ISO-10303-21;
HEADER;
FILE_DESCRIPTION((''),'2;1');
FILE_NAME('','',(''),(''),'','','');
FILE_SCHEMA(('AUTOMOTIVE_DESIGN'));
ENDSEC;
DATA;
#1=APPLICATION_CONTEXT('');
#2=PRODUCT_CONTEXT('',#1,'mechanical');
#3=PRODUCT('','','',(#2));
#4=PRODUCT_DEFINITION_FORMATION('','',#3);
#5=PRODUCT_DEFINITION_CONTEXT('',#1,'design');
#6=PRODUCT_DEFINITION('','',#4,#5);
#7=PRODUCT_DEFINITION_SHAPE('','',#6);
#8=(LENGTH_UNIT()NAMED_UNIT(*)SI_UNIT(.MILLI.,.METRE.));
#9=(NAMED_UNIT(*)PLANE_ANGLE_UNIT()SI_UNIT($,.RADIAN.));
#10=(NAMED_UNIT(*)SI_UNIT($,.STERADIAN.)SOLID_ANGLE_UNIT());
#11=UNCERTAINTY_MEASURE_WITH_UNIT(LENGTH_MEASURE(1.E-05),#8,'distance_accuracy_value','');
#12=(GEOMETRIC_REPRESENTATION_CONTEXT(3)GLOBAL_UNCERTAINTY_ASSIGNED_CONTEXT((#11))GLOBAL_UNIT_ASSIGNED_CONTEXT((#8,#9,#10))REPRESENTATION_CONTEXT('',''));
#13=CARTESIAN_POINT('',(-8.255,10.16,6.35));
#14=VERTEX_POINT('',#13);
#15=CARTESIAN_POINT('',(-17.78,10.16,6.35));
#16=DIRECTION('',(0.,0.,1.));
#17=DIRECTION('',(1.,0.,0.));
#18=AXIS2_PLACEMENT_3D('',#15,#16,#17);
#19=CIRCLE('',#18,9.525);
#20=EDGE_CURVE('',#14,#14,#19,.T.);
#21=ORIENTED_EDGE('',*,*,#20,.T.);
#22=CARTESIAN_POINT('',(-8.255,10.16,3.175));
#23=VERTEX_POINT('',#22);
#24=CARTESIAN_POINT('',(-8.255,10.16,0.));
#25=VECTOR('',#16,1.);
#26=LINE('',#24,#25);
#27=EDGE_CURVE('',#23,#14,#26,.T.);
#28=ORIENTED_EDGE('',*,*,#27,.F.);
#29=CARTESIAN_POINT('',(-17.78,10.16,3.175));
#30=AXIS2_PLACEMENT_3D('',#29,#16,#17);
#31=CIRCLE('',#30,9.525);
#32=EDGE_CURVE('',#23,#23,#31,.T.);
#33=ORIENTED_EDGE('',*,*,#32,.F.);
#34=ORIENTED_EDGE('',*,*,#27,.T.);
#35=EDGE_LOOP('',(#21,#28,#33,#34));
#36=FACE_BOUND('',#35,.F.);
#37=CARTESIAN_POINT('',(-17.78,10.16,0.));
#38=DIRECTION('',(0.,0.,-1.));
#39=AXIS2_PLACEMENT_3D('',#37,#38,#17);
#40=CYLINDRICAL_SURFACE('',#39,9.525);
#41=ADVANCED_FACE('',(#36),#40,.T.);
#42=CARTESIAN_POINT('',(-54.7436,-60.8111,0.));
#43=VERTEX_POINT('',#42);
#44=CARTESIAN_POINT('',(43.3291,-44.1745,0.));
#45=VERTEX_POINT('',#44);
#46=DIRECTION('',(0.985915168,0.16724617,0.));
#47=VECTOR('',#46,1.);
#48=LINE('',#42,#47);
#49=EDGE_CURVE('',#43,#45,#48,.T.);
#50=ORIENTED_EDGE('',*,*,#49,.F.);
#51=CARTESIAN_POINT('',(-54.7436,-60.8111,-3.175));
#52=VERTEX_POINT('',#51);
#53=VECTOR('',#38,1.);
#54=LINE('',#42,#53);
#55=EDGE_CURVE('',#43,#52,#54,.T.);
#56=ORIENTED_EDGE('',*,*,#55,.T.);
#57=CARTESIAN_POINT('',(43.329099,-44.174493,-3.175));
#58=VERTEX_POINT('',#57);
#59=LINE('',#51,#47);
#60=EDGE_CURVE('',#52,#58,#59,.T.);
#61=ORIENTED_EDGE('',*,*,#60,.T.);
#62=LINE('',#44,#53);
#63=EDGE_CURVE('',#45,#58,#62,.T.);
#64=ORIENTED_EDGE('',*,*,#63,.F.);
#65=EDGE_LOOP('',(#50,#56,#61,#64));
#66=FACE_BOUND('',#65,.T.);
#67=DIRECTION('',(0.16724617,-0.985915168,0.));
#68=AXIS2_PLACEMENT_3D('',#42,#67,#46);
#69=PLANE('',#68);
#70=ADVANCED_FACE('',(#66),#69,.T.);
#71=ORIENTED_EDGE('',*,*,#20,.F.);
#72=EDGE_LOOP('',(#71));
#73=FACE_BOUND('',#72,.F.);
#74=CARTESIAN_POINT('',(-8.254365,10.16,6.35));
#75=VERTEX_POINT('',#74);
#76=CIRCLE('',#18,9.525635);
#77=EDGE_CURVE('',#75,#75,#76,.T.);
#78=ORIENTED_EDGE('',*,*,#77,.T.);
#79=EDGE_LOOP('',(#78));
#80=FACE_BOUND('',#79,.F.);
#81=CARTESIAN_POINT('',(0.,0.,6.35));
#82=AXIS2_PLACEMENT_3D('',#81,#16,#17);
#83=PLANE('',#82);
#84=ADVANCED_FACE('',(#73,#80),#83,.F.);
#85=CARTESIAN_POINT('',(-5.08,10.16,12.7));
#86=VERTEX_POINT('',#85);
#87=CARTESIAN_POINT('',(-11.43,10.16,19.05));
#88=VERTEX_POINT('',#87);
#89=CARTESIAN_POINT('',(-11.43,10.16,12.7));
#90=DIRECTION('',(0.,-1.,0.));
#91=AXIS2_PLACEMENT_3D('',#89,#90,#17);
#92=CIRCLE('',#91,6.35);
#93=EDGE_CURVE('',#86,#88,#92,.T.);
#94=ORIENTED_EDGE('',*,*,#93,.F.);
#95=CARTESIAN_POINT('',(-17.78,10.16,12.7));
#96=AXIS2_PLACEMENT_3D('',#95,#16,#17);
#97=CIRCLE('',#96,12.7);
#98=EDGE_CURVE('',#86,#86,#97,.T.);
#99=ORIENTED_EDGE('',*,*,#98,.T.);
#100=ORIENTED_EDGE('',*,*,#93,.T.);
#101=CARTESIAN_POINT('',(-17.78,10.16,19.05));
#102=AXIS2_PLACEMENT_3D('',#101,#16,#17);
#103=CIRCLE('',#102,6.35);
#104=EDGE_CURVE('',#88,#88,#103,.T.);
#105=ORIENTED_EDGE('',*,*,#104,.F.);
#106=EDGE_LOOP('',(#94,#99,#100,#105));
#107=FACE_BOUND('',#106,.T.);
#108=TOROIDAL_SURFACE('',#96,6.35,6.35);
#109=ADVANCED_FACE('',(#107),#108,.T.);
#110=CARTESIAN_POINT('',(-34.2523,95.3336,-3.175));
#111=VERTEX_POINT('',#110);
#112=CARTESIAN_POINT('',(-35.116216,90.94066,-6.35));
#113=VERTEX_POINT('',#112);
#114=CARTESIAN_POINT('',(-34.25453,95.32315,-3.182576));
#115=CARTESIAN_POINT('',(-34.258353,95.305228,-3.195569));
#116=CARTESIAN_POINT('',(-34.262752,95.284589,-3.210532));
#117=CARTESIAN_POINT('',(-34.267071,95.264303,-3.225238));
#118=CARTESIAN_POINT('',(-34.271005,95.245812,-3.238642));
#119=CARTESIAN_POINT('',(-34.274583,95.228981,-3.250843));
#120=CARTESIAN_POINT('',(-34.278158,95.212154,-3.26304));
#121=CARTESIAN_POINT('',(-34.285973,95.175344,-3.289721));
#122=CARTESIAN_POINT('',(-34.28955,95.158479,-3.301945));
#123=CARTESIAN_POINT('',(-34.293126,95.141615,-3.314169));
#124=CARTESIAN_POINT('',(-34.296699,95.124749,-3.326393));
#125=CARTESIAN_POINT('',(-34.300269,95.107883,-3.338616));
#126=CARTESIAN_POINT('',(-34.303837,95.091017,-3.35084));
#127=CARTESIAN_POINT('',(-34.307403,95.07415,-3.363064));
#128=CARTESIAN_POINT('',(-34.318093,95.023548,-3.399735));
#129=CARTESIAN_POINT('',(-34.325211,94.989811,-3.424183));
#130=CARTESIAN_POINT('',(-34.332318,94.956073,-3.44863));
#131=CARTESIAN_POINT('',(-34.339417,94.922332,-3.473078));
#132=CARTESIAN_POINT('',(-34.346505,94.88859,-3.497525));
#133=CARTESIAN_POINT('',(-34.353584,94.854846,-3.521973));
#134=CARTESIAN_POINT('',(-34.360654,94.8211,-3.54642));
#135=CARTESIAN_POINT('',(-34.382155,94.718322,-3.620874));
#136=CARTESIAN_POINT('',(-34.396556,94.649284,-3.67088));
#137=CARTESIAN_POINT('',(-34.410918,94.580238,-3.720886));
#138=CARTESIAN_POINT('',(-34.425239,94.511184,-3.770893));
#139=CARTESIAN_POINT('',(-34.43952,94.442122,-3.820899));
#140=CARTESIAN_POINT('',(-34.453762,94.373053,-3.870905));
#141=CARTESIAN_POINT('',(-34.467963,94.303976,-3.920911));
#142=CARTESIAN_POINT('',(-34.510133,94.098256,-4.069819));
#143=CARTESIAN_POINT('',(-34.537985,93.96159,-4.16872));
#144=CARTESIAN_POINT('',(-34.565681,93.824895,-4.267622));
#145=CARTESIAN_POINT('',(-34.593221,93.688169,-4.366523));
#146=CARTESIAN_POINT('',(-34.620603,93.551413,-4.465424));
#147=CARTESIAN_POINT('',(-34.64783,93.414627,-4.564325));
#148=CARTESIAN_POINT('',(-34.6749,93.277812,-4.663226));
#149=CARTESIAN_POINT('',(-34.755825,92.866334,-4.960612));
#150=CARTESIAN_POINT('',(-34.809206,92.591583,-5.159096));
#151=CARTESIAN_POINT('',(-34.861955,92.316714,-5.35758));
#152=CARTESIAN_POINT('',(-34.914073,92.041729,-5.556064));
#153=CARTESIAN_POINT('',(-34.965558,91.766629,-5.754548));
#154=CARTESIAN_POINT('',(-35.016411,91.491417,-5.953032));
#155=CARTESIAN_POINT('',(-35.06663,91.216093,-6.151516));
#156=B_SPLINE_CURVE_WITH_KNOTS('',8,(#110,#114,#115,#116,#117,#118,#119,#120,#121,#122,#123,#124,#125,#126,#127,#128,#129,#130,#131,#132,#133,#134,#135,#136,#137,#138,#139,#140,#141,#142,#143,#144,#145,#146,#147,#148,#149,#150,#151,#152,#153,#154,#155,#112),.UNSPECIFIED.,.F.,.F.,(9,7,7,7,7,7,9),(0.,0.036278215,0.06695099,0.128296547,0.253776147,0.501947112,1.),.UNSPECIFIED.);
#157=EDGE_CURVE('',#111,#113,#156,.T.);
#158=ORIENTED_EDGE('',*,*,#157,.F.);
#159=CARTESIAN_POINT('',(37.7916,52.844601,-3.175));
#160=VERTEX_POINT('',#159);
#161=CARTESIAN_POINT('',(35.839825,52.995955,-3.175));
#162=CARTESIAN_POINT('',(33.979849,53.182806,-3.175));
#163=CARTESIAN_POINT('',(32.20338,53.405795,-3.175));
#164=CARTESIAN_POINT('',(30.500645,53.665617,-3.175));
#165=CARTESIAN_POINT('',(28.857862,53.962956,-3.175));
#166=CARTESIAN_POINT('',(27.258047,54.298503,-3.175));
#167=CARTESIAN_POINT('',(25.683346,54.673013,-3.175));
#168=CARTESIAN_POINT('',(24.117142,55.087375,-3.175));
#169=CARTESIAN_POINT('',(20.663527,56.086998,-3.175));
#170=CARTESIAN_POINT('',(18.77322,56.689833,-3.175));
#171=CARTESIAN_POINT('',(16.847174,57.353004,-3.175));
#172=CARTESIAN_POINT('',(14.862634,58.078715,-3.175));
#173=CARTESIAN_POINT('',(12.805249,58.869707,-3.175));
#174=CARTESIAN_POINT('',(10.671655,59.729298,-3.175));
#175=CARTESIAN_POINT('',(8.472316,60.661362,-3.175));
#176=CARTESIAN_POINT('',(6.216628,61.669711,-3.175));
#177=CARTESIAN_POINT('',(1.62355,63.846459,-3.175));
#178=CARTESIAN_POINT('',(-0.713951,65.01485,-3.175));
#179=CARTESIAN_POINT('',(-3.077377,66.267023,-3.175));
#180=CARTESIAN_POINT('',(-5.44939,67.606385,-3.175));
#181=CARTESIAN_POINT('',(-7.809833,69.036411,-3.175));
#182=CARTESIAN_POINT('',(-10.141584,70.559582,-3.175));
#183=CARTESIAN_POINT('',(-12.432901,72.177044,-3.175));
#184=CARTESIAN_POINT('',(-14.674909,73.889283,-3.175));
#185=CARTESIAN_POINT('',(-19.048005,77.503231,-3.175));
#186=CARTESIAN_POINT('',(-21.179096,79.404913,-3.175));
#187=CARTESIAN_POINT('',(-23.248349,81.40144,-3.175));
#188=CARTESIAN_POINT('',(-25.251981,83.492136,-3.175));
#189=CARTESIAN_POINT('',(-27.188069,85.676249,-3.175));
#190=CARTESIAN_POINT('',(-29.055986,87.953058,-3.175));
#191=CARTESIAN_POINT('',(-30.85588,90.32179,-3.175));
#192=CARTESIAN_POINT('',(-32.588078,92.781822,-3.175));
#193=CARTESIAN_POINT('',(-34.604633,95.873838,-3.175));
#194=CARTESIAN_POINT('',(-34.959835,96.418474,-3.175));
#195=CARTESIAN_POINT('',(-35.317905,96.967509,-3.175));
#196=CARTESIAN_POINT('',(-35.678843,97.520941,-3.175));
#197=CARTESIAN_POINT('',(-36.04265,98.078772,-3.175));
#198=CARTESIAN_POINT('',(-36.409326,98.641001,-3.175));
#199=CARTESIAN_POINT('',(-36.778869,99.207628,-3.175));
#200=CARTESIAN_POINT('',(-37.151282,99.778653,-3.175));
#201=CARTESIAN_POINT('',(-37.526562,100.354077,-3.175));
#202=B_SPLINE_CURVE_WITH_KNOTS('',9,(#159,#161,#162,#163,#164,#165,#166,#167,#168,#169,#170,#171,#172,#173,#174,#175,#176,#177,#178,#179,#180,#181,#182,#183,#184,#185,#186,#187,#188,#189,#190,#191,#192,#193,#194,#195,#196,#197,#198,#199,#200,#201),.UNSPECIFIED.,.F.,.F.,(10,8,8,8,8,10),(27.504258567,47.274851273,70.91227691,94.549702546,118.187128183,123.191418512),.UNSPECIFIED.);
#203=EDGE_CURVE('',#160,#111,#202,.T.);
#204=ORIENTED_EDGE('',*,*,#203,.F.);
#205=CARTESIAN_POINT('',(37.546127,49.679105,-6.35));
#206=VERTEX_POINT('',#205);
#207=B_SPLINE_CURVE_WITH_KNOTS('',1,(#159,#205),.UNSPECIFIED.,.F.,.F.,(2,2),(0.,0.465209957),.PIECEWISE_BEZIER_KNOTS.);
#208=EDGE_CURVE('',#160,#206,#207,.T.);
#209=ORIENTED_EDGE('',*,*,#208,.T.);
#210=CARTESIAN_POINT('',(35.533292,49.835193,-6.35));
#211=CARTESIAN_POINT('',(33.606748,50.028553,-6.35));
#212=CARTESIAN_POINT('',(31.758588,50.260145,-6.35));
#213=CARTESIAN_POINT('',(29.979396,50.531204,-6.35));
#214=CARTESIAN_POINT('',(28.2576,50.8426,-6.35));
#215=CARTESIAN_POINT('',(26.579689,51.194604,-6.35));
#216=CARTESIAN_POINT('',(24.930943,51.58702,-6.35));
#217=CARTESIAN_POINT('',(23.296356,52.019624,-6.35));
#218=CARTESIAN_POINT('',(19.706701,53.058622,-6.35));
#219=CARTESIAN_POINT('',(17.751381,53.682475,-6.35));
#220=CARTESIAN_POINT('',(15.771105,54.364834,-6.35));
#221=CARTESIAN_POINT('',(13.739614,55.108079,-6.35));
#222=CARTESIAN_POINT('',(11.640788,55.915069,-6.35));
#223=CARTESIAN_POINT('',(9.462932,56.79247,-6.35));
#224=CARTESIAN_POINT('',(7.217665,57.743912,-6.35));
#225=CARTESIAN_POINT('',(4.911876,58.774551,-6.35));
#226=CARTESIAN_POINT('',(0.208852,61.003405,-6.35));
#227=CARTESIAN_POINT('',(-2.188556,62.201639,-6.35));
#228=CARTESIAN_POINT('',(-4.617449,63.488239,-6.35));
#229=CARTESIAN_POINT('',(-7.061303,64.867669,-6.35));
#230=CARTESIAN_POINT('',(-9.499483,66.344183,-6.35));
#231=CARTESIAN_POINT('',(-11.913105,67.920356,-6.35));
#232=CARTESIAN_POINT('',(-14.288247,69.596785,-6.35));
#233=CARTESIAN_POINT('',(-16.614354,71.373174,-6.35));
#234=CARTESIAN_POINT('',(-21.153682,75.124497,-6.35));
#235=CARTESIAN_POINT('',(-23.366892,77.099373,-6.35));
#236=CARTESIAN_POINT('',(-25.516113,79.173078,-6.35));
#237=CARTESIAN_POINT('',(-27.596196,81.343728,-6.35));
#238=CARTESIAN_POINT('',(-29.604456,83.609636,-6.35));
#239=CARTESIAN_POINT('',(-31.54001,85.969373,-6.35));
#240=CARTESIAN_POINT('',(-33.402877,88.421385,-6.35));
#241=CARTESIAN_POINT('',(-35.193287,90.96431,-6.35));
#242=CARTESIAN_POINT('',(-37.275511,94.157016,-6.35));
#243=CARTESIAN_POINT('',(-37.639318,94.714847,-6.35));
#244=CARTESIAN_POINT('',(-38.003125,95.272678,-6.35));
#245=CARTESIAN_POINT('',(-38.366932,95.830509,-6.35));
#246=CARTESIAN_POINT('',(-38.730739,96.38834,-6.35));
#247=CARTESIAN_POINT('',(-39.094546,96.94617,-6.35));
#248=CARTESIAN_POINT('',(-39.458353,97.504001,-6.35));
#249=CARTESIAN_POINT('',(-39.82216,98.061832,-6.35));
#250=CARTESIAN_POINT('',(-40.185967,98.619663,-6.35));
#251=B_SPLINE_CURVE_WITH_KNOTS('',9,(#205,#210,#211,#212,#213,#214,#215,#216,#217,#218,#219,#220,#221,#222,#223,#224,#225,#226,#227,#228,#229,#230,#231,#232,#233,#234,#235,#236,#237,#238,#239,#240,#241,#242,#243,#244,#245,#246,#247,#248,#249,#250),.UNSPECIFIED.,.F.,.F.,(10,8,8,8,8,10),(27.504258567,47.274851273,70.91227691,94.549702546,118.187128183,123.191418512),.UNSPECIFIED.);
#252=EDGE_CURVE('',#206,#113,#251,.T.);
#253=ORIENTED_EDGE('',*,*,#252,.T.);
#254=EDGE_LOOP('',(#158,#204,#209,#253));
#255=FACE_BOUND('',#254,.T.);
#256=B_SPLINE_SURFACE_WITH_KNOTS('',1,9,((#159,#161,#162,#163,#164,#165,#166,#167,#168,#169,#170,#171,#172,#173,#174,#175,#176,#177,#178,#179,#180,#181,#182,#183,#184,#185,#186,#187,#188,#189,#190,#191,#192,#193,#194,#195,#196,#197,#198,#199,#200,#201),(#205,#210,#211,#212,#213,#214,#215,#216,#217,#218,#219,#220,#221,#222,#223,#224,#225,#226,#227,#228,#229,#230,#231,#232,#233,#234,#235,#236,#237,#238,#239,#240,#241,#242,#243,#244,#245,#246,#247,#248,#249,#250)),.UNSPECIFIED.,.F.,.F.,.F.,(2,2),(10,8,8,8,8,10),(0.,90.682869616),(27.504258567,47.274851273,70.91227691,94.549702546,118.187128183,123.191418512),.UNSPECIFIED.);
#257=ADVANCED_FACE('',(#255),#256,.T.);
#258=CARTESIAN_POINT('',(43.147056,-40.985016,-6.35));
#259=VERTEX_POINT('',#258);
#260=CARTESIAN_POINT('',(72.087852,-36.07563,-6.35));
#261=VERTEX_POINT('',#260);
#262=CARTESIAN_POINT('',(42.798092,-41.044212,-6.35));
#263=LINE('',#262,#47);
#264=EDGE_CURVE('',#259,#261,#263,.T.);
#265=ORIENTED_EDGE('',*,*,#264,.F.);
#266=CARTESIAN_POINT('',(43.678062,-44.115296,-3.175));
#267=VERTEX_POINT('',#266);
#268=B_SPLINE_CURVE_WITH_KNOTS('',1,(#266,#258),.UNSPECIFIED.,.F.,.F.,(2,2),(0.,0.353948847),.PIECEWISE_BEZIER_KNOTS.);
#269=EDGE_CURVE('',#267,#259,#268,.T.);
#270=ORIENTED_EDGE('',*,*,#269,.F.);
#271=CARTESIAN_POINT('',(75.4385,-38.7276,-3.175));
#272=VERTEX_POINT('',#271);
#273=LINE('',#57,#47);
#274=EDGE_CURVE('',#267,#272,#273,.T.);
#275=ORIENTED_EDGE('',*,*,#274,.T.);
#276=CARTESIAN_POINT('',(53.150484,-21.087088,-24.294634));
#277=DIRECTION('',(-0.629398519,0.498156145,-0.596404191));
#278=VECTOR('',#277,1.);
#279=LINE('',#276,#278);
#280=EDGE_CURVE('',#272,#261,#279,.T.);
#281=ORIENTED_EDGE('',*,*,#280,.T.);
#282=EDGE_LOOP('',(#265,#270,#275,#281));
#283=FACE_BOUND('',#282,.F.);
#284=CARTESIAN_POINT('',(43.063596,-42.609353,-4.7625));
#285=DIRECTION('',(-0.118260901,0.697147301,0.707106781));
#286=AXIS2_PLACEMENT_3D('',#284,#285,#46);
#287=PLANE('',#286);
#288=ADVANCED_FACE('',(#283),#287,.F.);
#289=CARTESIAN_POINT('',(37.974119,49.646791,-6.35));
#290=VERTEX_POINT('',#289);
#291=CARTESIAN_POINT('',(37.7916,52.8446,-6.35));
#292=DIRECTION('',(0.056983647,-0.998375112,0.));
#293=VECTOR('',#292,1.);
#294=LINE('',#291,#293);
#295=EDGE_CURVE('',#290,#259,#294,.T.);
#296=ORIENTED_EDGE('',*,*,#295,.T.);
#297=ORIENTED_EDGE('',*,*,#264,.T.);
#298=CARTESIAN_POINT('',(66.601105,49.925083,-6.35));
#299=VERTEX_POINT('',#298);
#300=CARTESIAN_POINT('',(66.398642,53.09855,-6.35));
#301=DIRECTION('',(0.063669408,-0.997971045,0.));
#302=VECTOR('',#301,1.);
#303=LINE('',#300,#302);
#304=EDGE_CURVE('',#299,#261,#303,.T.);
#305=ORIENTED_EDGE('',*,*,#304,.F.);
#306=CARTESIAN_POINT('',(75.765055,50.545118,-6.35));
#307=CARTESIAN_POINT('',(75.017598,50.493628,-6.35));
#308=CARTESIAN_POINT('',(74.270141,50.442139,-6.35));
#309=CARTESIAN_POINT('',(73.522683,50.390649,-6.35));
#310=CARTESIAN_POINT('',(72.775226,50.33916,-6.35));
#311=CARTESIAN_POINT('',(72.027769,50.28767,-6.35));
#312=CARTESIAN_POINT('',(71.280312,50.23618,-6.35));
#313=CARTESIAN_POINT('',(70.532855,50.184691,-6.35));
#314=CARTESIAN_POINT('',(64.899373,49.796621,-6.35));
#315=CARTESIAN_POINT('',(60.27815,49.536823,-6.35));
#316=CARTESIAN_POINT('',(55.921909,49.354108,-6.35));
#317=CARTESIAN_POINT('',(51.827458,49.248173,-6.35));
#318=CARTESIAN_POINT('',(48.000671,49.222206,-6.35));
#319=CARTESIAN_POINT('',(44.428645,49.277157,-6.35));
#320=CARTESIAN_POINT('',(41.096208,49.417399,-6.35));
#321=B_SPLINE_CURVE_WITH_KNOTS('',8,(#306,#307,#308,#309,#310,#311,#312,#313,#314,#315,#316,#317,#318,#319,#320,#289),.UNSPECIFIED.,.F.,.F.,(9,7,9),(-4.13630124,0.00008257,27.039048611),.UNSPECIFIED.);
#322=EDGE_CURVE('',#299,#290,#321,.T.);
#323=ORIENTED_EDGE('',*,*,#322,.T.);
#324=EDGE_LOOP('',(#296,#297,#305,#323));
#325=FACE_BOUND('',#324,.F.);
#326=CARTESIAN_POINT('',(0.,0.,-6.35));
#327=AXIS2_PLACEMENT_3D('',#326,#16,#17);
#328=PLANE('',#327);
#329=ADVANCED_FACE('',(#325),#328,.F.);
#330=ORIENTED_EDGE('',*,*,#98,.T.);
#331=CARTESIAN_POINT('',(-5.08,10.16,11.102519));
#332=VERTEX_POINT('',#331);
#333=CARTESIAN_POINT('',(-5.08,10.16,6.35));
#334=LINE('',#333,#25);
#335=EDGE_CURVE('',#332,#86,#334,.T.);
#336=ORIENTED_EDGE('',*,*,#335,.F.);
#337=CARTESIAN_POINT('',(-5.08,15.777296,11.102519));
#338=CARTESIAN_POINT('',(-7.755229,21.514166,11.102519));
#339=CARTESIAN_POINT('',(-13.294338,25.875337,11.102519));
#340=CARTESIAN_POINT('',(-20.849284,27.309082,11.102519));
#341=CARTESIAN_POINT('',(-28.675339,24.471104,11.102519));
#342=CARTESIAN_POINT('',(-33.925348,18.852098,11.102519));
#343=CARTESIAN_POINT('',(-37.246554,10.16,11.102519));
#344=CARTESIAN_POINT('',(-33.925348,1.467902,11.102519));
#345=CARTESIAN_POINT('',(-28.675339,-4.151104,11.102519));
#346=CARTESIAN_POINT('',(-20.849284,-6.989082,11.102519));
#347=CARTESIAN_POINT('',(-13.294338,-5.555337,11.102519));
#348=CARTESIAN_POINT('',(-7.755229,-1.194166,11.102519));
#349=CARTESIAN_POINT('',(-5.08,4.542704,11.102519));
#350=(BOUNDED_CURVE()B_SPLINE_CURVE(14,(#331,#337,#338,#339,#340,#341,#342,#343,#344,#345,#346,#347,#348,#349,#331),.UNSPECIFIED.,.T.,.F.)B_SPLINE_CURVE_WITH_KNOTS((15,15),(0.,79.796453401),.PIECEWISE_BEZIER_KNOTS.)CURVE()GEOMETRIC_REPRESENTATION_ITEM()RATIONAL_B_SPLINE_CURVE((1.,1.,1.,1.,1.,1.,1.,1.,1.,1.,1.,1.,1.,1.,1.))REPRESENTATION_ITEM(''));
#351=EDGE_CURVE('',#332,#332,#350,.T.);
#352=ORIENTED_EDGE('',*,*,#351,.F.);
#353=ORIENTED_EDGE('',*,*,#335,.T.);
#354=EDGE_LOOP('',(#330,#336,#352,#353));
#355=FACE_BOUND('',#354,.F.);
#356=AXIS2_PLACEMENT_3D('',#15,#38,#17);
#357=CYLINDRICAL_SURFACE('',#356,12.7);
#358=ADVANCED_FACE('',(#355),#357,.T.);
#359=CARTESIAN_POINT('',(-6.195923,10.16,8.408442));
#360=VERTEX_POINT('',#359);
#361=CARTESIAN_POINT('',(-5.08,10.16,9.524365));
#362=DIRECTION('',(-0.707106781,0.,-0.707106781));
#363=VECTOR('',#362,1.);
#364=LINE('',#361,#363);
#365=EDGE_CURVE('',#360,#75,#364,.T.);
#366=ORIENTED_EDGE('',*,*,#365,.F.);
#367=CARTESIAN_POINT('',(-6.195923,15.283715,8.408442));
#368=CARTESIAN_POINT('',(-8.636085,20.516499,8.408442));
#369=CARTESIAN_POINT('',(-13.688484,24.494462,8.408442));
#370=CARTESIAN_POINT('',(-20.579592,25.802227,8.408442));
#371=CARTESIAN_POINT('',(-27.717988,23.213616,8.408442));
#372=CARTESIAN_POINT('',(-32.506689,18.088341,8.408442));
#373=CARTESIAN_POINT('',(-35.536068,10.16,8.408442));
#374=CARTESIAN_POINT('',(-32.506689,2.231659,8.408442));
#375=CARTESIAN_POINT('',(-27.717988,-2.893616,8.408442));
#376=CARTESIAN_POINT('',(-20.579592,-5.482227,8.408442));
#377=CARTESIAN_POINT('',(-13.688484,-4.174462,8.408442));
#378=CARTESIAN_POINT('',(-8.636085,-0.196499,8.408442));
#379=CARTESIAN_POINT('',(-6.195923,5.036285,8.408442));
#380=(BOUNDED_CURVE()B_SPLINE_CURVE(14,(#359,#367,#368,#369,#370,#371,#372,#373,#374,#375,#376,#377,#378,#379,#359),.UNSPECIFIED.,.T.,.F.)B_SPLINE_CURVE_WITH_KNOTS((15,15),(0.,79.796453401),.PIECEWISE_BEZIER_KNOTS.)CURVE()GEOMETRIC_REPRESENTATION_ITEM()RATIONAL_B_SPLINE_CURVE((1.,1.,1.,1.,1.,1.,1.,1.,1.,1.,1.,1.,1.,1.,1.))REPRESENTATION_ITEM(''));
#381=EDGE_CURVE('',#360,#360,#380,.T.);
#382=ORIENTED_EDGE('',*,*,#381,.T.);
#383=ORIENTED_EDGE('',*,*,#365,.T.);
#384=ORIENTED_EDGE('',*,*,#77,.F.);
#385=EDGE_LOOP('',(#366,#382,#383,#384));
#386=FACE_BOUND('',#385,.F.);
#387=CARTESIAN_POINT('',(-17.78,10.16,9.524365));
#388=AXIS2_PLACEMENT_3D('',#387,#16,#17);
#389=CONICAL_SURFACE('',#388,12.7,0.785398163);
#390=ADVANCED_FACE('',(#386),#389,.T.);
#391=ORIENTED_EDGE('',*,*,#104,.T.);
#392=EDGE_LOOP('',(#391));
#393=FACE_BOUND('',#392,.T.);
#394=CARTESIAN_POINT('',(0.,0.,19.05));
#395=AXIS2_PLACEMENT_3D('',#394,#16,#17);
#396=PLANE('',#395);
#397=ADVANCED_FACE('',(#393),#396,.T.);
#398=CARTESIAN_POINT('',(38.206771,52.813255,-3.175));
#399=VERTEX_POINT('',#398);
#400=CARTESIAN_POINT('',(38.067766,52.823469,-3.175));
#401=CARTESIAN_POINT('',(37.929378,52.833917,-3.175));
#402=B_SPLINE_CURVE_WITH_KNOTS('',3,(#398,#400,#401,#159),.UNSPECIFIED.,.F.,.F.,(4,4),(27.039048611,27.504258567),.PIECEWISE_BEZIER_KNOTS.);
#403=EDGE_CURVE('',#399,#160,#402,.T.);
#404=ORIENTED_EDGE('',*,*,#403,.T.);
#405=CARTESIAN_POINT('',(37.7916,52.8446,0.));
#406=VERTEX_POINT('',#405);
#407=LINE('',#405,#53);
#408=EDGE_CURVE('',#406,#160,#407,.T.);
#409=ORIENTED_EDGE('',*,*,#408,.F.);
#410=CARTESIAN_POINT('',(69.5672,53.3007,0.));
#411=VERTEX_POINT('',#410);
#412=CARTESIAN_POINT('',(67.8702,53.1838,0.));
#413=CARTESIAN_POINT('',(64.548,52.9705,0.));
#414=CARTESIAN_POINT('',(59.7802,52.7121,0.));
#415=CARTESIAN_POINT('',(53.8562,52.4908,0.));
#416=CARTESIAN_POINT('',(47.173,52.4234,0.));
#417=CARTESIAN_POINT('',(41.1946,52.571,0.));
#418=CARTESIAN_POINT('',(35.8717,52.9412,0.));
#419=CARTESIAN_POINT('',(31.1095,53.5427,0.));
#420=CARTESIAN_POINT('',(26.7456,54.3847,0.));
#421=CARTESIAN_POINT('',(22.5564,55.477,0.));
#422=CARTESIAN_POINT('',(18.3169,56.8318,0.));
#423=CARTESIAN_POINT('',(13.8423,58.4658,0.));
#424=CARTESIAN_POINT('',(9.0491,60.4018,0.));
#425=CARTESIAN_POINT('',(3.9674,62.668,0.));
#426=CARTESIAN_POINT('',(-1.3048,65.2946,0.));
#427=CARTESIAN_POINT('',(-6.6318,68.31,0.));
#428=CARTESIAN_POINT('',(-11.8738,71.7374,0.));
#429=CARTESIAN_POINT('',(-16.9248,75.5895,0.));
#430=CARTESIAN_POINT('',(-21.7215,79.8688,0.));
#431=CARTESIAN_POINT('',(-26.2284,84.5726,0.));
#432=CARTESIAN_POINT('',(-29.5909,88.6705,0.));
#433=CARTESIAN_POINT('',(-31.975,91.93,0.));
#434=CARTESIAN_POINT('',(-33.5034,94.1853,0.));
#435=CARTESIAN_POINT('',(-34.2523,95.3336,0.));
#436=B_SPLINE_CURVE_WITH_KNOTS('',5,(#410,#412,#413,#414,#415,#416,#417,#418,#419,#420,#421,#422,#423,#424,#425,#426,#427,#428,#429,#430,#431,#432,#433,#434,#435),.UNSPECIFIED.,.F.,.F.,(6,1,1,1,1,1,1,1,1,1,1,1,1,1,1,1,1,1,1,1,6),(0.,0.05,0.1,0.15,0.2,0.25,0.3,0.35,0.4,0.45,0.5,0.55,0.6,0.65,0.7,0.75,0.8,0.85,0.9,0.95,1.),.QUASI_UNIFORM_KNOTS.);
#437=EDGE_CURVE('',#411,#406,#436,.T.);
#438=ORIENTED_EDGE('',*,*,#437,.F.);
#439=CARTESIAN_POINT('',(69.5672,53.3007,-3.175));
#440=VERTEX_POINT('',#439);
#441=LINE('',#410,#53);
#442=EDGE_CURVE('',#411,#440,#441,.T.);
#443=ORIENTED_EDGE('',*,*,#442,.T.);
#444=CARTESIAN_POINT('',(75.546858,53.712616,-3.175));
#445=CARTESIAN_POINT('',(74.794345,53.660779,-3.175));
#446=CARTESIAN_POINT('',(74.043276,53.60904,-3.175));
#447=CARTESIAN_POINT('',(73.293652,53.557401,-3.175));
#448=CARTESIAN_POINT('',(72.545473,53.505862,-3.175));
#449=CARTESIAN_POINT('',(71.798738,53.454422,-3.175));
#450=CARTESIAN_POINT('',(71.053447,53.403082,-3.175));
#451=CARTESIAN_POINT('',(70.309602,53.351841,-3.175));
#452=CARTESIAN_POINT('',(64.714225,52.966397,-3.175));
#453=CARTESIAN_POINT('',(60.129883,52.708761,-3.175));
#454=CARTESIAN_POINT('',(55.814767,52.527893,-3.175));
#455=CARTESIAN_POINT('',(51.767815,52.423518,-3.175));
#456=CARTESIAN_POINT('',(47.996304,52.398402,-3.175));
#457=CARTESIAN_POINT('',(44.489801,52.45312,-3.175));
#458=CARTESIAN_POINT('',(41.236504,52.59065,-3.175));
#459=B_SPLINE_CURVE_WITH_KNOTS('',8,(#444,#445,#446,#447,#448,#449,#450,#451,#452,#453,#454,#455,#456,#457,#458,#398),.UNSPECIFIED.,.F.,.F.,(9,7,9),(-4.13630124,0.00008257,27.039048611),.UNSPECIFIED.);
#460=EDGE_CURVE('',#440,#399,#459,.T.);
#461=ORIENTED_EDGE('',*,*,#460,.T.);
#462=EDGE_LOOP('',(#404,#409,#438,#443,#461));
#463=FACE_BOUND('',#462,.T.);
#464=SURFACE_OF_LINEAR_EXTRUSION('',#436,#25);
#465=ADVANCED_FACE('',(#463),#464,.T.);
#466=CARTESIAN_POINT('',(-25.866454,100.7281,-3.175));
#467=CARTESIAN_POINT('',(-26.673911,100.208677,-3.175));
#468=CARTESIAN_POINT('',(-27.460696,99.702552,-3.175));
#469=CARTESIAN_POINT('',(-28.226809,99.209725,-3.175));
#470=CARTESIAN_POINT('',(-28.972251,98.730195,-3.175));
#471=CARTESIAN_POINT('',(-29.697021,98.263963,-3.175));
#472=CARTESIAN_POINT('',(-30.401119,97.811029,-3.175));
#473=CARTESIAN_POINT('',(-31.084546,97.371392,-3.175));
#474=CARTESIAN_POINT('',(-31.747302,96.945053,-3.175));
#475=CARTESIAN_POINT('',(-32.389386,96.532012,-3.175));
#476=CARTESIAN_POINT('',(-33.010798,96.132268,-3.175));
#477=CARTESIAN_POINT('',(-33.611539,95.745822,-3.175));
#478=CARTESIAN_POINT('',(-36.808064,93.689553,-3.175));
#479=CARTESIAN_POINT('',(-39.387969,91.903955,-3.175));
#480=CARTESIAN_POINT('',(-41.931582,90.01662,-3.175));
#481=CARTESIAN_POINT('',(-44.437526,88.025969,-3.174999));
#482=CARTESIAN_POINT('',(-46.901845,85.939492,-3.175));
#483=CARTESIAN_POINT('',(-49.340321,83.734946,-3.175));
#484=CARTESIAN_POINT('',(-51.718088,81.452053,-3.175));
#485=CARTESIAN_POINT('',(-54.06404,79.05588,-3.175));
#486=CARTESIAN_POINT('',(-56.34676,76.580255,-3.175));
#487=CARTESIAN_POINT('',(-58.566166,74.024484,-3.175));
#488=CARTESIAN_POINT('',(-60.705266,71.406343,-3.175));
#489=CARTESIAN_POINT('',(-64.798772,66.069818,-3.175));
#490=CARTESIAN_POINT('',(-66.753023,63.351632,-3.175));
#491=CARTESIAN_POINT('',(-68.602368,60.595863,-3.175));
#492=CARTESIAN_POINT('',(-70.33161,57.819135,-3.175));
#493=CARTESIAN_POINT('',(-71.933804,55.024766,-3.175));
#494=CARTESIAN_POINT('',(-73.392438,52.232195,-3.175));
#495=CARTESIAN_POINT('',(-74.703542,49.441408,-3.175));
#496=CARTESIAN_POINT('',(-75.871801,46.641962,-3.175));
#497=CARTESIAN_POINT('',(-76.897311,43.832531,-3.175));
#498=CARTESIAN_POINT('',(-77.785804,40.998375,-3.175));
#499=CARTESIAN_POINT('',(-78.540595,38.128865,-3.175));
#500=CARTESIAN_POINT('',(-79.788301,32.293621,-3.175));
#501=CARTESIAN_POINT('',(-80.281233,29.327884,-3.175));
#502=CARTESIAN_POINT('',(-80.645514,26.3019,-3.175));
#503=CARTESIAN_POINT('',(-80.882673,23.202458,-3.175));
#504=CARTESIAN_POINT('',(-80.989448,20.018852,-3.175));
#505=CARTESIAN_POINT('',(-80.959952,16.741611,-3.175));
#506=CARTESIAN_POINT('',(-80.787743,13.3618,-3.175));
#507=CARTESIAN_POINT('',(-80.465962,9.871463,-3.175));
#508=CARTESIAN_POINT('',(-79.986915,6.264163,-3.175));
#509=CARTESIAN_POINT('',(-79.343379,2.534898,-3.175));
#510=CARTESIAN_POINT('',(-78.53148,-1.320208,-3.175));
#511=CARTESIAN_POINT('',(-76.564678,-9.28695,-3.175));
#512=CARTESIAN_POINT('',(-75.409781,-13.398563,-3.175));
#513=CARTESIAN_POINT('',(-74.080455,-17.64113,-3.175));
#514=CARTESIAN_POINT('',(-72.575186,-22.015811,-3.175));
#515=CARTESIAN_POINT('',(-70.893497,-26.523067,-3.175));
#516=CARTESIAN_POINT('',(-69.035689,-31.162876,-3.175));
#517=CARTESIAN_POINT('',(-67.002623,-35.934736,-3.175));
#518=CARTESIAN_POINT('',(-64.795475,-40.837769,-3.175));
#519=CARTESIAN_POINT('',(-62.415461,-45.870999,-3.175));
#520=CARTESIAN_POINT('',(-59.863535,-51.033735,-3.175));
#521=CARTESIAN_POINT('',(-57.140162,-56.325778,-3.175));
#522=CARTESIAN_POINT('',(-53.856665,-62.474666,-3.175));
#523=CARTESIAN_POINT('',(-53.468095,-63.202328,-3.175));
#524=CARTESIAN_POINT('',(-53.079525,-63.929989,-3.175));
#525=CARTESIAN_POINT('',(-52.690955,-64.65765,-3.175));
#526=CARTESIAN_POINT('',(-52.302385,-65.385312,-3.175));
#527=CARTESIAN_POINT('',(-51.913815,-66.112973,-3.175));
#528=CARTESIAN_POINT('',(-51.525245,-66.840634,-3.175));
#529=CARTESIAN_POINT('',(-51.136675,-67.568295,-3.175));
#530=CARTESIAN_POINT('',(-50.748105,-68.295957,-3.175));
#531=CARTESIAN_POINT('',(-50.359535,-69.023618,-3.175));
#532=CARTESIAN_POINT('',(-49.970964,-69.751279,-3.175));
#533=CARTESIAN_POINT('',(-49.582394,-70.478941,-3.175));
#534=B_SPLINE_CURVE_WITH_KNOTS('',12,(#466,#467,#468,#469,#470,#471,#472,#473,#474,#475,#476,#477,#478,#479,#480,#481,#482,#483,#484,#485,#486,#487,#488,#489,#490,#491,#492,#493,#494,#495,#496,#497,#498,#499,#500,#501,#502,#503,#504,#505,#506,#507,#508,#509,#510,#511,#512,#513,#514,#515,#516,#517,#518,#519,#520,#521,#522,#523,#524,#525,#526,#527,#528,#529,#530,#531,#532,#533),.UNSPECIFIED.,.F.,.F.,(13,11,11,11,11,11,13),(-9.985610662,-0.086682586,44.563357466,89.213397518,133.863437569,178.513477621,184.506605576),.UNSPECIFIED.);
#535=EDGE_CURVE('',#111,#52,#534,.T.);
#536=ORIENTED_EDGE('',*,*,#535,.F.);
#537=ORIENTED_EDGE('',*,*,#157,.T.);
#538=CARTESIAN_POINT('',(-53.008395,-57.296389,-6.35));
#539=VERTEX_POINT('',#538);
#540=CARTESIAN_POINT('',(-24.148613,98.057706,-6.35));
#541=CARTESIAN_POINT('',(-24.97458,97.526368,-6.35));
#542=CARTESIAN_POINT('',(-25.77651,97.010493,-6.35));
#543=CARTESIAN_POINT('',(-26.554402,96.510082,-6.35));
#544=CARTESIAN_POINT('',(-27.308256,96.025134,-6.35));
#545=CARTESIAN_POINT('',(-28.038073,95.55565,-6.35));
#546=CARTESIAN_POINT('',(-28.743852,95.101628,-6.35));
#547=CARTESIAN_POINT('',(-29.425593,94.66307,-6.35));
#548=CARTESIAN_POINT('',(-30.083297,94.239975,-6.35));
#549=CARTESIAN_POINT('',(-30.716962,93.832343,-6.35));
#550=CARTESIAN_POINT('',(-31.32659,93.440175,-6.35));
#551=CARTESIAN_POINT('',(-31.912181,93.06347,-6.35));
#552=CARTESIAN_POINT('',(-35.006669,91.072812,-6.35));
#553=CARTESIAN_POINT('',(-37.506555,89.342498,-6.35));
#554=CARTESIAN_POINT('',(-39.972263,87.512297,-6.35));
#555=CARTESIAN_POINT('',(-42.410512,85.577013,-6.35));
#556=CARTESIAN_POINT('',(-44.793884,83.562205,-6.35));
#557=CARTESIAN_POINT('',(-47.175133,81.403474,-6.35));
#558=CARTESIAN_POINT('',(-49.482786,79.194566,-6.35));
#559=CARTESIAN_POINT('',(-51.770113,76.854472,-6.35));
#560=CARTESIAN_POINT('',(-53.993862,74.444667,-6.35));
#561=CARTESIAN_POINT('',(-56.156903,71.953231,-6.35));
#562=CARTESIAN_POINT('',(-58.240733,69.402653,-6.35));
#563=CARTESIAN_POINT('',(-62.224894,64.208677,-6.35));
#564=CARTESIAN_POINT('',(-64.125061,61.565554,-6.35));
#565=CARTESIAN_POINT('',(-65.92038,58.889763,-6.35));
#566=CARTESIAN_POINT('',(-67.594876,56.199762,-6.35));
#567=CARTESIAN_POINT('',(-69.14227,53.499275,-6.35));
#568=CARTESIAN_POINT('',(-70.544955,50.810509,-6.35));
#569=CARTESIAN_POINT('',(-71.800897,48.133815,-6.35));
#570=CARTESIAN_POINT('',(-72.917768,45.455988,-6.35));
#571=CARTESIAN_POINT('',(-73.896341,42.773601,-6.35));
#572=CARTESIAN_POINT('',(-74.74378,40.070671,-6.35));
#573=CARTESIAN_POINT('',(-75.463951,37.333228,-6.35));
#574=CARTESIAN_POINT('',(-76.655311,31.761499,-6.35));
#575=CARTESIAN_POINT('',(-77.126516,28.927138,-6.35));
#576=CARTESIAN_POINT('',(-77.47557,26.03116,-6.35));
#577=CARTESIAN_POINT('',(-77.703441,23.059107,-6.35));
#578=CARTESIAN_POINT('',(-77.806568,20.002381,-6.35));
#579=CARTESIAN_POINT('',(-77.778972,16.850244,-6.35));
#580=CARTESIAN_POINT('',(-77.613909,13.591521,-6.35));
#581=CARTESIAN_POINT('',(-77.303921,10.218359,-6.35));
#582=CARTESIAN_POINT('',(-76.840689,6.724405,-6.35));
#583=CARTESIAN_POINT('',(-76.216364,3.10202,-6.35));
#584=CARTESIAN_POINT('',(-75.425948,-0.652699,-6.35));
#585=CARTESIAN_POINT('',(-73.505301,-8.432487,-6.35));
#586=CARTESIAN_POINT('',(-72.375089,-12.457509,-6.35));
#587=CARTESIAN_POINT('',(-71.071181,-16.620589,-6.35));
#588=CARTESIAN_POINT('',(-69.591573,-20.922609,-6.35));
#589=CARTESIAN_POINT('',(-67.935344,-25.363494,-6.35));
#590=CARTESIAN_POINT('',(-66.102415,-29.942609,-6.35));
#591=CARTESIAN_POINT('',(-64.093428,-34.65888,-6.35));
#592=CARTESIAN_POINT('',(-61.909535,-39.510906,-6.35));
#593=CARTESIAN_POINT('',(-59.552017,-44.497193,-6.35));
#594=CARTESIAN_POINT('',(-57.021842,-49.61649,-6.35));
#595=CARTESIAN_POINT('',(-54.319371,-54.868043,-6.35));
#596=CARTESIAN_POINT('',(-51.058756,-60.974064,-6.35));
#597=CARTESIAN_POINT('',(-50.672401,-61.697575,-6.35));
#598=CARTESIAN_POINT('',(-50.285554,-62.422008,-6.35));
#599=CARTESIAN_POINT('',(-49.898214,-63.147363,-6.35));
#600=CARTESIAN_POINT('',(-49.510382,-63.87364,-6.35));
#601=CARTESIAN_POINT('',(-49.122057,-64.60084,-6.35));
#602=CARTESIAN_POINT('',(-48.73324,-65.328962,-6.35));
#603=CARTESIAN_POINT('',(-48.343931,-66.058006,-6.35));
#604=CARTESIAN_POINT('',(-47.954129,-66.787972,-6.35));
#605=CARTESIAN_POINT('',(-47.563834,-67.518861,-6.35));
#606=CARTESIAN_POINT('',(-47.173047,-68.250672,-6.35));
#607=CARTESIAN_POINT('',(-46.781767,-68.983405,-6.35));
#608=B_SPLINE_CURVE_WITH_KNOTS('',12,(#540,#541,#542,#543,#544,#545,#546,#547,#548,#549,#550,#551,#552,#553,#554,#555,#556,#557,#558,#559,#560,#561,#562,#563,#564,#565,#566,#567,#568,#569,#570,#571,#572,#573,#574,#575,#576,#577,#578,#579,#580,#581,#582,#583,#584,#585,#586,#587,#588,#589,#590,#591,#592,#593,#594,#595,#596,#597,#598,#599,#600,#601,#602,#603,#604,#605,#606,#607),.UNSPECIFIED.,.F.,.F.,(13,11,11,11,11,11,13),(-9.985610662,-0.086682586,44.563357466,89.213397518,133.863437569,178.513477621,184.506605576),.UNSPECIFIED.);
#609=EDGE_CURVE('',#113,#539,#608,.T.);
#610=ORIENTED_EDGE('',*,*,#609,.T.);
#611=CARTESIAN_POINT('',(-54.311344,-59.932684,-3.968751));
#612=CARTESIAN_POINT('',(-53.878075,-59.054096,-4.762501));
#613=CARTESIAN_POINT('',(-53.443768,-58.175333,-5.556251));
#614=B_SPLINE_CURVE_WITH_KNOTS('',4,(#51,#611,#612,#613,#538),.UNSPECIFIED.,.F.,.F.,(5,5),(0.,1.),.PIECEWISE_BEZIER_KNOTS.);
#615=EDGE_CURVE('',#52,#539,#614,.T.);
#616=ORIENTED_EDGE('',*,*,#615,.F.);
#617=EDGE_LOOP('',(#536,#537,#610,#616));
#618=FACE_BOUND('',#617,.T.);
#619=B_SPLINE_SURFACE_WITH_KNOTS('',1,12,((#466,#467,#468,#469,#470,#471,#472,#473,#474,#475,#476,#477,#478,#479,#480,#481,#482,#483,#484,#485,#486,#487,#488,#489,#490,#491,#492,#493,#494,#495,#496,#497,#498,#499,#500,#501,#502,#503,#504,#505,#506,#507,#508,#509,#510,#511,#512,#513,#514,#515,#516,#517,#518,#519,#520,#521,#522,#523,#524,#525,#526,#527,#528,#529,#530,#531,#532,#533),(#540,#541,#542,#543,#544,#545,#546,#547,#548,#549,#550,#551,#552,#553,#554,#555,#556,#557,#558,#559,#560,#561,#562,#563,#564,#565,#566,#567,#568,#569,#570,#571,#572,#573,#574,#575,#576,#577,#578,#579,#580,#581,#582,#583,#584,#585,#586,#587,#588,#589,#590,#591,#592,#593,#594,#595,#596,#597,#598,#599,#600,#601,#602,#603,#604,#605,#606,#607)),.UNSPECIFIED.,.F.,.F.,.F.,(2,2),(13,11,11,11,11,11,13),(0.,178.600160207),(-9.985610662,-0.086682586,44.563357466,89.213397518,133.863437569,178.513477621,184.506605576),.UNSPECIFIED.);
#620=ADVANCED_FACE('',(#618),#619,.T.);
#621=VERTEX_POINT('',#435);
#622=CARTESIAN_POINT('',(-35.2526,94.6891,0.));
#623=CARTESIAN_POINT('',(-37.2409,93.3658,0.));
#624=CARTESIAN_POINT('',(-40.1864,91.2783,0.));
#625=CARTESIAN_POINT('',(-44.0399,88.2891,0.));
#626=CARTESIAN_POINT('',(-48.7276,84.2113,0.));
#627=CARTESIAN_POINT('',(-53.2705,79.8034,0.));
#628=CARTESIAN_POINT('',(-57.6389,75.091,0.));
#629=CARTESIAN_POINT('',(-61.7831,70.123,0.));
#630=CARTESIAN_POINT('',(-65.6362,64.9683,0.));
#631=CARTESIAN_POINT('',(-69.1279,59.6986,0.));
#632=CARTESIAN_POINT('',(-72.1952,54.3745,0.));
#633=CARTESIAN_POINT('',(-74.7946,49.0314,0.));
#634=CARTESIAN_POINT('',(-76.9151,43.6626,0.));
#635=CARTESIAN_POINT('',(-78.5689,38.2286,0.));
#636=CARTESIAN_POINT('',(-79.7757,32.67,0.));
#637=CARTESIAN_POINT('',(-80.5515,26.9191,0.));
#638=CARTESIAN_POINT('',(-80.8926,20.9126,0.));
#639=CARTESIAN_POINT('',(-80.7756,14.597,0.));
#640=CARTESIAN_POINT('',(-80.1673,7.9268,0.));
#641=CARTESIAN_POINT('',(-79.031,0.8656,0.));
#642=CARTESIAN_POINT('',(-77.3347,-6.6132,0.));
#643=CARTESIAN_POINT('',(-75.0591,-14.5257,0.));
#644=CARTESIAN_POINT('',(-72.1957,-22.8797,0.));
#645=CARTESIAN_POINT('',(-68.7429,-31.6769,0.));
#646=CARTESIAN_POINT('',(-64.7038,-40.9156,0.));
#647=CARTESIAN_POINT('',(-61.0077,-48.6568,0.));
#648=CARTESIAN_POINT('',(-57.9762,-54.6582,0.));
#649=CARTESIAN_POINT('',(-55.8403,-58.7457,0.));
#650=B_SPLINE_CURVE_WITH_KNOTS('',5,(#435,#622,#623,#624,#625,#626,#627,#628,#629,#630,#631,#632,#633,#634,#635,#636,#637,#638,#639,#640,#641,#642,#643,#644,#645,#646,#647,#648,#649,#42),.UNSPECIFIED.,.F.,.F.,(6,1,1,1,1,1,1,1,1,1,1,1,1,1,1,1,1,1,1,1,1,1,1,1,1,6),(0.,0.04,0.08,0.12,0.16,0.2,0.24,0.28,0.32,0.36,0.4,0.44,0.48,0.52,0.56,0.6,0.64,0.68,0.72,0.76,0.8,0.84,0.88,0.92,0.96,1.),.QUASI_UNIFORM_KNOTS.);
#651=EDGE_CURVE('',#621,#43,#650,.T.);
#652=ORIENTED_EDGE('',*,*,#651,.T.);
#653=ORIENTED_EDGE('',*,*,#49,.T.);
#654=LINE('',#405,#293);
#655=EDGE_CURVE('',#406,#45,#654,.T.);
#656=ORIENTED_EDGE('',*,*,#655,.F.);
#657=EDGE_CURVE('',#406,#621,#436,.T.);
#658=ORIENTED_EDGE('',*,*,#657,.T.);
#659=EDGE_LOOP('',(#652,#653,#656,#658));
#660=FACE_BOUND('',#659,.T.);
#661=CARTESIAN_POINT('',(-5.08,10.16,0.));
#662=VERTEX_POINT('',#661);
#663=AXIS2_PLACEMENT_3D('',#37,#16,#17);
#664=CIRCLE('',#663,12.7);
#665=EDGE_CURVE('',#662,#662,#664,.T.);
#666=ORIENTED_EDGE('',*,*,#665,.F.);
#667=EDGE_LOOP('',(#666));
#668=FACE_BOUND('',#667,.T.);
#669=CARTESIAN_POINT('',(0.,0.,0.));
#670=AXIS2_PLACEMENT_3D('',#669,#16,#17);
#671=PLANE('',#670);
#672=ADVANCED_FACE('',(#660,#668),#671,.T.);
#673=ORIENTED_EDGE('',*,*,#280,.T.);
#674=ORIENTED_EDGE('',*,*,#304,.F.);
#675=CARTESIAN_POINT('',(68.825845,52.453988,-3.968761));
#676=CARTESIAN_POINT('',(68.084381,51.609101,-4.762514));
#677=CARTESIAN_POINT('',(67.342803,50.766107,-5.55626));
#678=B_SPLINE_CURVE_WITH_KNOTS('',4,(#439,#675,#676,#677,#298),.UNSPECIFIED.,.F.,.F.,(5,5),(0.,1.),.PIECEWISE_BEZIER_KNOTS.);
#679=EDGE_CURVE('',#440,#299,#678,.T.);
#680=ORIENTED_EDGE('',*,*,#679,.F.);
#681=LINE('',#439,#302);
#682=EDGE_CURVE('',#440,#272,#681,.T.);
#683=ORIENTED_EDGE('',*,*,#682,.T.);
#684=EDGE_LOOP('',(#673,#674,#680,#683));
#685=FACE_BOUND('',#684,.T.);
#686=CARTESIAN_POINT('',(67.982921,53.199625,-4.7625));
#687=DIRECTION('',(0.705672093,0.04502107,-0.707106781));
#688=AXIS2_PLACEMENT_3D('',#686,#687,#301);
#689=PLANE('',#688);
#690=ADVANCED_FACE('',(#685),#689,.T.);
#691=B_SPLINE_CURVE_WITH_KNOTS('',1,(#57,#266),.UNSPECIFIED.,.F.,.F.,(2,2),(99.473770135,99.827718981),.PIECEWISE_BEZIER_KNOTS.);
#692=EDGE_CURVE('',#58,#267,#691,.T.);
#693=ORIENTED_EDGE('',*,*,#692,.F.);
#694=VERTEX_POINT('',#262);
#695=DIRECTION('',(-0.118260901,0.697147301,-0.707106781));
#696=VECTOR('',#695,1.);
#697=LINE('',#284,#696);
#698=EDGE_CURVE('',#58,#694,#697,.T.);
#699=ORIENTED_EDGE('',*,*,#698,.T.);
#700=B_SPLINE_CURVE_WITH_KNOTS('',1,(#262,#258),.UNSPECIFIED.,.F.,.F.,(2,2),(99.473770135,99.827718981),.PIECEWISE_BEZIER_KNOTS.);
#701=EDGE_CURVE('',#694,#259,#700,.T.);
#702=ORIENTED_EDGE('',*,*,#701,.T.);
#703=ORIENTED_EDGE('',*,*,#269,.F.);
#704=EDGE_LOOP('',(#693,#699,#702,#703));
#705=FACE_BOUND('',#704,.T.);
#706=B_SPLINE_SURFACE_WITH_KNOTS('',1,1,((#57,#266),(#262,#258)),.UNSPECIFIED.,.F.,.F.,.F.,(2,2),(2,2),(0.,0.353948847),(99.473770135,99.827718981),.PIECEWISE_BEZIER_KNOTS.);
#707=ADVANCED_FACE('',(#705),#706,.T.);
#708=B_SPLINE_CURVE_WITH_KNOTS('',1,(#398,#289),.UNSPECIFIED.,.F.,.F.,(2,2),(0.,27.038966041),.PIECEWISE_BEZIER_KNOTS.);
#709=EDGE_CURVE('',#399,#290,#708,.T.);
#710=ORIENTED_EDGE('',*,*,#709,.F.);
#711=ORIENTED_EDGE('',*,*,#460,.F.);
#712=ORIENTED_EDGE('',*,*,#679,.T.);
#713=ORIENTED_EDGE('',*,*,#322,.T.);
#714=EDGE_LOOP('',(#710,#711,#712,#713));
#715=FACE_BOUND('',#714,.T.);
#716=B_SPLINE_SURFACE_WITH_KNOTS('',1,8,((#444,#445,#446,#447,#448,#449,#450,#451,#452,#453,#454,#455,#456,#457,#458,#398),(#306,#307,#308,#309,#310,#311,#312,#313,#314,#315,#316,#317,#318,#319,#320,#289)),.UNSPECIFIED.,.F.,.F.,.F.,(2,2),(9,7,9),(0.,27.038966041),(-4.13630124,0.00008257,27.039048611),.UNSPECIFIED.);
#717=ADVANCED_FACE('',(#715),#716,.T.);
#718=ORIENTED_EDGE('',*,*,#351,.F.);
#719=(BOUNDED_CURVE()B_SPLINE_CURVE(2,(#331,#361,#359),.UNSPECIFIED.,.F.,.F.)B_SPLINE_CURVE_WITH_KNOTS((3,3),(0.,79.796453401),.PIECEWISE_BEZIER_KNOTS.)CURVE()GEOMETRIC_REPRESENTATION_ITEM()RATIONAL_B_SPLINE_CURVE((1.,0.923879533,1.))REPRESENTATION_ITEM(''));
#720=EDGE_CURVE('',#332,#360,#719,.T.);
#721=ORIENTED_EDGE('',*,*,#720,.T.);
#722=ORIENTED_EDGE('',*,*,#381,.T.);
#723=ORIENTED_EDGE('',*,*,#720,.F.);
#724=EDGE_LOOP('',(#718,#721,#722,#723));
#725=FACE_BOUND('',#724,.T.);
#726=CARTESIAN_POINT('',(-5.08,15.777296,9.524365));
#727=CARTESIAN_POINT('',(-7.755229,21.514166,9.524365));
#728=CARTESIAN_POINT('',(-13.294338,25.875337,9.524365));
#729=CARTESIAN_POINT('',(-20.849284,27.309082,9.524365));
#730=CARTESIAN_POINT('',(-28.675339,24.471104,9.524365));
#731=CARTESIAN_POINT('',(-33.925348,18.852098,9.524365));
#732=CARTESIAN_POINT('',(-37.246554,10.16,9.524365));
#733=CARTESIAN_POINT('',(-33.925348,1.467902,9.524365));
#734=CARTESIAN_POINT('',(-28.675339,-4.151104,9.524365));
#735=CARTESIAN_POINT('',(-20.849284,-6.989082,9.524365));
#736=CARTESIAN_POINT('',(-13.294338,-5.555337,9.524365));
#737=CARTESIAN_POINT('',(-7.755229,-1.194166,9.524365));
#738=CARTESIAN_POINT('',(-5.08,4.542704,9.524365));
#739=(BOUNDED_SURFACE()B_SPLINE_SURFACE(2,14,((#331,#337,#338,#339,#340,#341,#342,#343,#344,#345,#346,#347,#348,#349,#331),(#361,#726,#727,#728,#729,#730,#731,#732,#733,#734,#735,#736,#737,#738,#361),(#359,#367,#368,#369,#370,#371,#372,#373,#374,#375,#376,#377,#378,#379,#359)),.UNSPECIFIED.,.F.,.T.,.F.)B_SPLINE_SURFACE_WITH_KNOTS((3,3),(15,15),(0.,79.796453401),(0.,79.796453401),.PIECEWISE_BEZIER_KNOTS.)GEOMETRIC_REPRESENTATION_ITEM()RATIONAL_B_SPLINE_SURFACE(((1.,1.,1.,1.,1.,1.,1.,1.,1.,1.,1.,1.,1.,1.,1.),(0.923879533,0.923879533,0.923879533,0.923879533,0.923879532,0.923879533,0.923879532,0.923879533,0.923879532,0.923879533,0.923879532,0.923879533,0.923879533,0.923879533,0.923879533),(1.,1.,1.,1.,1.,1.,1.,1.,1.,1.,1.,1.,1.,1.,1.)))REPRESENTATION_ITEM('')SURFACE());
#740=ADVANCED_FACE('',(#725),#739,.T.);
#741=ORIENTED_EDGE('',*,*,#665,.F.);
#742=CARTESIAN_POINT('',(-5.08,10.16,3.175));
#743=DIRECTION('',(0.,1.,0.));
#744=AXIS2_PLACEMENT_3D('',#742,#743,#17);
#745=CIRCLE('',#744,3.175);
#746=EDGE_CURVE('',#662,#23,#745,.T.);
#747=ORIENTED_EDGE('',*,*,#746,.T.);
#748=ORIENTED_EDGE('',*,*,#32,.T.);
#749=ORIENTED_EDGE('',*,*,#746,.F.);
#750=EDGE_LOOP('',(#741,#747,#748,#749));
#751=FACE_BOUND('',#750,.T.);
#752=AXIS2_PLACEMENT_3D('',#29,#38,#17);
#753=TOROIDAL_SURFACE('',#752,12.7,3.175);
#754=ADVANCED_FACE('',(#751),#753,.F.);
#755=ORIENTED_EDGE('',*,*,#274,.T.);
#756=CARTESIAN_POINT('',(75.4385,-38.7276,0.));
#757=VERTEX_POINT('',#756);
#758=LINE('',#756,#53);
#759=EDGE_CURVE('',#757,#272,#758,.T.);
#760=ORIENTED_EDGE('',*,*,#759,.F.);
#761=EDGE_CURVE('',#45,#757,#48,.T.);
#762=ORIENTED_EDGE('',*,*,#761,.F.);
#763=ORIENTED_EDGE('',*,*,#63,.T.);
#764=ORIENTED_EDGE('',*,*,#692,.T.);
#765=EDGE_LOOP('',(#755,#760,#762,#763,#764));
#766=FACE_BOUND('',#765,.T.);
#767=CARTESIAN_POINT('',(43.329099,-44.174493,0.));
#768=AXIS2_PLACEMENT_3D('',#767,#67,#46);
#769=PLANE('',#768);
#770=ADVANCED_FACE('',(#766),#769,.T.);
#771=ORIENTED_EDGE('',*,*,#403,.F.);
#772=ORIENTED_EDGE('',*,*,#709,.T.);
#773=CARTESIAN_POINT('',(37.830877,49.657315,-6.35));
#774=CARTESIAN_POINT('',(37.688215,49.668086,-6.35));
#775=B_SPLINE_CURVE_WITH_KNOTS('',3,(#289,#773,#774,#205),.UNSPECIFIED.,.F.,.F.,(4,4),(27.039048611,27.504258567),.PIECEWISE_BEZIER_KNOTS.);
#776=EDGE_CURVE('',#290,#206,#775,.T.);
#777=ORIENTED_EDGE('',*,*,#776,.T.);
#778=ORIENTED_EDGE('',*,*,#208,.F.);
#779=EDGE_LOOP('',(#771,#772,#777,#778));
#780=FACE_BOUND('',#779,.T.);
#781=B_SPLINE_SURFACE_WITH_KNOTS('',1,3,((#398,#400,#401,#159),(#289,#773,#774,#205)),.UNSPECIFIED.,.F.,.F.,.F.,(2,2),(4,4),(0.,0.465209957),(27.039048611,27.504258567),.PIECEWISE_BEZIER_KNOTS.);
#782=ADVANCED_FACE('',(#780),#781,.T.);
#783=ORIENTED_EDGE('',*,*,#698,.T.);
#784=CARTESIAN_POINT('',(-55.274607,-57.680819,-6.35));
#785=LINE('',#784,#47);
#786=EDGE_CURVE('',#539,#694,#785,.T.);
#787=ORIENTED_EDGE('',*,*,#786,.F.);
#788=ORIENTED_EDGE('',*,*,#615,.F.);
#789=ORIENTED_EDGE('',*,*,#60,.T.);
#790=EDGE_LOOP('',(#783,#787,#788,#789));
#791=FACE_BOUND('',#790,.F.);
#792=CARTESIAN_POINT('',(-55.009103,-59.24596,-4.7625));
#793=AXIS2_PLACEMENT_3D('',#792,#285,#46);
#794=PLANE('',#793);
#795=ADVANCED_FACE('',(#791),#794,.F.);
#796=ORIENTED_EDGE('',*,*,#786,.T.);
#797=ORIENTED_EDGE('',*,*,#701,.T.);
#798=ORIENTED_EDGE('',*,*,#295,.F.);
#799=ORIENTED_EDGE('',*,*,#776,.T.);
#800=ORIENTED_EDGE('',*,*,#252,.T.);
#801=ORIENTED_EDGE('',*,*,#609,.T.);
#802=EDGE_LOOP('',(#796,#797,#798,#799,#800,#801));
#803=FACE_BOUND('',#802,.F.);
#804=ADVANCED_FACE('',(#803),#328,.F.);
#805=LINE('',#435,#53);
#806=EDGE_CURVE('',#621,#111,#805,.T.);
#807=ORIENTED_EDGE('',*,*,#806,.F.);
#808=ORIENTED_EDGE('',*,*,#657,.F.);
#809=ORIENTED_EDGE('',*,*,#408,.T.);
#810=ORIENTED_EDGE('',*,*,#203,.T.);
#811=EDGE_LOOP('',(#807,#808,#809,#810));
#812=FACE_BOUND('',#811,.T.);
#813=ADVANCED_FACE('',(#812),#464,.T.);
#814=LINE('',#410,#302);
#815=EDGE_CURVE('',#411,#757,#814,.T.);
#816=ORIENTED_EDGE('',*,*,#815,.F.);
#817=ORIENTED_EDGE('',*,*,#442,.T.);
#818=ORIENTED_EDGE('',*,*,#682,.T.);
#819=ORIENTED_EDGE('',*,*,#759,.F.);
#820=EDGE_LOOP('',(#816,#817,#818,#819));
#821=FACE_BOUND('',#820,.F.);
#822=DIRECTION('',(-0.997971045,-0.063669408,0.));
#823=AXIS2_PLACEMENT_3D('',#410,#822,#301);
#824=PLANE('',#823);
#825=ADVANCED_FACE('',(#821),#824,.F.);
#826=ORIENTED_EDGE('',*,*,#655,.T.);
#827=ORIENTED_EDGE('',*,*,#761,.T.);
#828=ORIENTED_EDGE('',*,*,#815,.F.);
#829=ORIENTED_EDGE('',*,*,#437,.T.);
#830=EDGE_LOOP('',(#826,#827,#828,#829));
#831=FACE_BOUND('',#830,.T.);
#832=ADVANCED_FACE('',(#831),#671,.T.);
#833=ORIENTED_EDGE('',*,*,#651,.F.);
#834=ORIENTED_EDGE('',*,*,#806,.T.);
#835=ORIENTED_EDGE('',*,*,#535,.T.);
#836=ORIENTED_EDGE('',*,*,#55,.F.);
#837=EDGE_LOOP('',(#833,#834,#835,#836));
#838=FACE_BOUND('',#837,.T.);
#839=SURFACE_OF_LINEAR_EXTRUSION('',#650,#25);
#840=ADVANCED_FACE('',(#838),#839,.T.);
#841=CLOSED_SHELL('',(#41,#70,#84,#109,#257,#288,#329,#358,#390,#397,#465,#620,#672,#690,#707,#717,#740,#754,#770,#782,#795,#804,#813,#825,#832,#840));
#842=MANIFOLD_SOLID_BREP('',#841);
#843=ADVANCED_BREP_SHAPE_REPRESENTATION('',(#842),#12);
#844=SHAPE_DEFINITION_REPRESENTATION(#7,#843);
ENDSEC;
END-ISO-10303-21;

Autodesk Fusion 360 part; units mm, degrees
sketch "MaskV2" plane through (0, 0, 0) normal (0, 0, 1) x (1, 0, 0)
  spline S0 degree 5 poles (-34.2523, 95.3336) (-35.2526, 94.6891) (-37.2409, 93.3658) (-40.1864, 91.2783) (-44.0399, 88.2891) (-48.7276, 84.2113) (-53.2705, 79.8034) (-57.6389, 75.091) (-61.7831, 70.123) (-65.6362, 64.9683) (-69.1279, 59.6986) (-72.1952, 54.3745) (-74.7946, 49.0314) (-76.9151, 43.6626) (-78.5689, 38.2286) (-79.7757, 32.67) (-80.5515, 26.9191) (-80.8926, 20.9126) (-80.7756, 14.597) (-80.1673, 7.9268) (-79.031, 0.8656) (-77.3347, -6.6132) (-75.0591, -14.5257) (-72.1957, -22.8797) (-68.7429, -31.6769) (-64.7038, -40.9156) (-61.0077, -48.6568) (-57.9762, -54.6582) (-55.8403, -58.7457) (-54.7436, -60.8111) knots 0 0 0 0 0 0 0.04 0.08 0.12 0.16 0.2 0.24 0.28 0.32 0.36 0.4 0.44 0.48 0.52 0.56 0.6 0.64 0.68 0.72 0.76 0.8 0.84 0.88 0.92 0.96 1 1 1 1 1 1
  spline S1 degree 5 poles (69.5672, 53.3007) (67.8702, 53.1838) (64.548, 52.9705) (59.7802, 52.7121) (53.8562, 52.4908) (47.173, 52.4234) (41.1946, 52.571) (35.8717, 52.9412) (31.1095, 53.5427) (26.7456, 54.3847) (22.5564, 55.477) (18.3169, 56.8318) (13.8423, 58.4658) (9.0491, 60.4018) (3.9674, 62.668) (-1.3048, 65.2946) (-6.6318, 68.31) (-11.8738, 71.7374) (-16.9248, 75.5895) (-21.7215, 79.8688) (-26.2284, 84.5726) (-29.5909, 88.6705) (-31.975, 91.93) (-33.5034, 94.1853) (-34.2523, 95.3336) knots 0 0 0 0 0 0 0.05 0.1 0.15 0.2 0.25 0.3 0.35 0.4 0.45 0.5 0.55 0.6 0.65 0.7 0.75 0.8 0.85 0.9 0.95 1 1 1 1 1 1
  line L0 (37.7916, 52.8446) -> (43.3291, -44.1745)
  line L1 (-54.7436, -60.8111) -> (75.4385, -38.7276)
  line L2 (69.5672, 53.3007) -> (75.4385, -38.7276)
  circle A0 centre (-17.78, 10.16) radius 9.525
  circle A1 centre (-17.78, 10.16) radius 12.7
  line L3 (-33.8654, -49.2972) -> (47.6075, -34.9313) construction
  line L4 (47.6075, -34.9313) -> (44.2995, -16.1707) construction
  line L5 (44.2995, -16.1707) -> (-37.1734, -30.5366) construction
  line L6 (-37.1734, -30.5366) -> (-33.8654, -49.2972) construction
  dimension "d1" = 19.05
  dimension "d2" = 25.4
extrude "Extrude1" add sketch "MaskV2" against normal blind 6.35 contours S0 S1 L0 L1 | A0 | A1
extrude "Extrude2" add sketch "MaskV2" along normal blind 19.05 contours A0
extrude "Extrude3" add sketch "MaskV2" along normal blind 12.7 from surface at 6.35 contours A1
extrude "Extrude4" add sketch "MaskV2" against normal blind 6.35 contours S1 L0 L1 L2
fillet "Fillet1" radius 6.35 1 edges at (-29.6206, 5.5675, 19.05)
chamfer "Chamfer1" distance 3.175 angle 45 1 edges at (-29.6206, 5.5675, 6.35)
fillet "Fillet2" radius 3.81 1 edges at (-29.6206, 14.7525, 9.525)
chamfer "Chamfer2" distance 3.175 angle 45 6 edges at (-5.7072, -52.4928, -6.35) (-79.1174, 35.4295, -6.35) (2.2203, 63.5787, -6.35) (10.3475, -49.7693, -6.35) (72.5028, 7.2866, -6.35) (51.77, 52.4982, -6.35)
fillet "Fillet3" radius 3.175 1 edges at (-26.6604, 13.6044, 0)
